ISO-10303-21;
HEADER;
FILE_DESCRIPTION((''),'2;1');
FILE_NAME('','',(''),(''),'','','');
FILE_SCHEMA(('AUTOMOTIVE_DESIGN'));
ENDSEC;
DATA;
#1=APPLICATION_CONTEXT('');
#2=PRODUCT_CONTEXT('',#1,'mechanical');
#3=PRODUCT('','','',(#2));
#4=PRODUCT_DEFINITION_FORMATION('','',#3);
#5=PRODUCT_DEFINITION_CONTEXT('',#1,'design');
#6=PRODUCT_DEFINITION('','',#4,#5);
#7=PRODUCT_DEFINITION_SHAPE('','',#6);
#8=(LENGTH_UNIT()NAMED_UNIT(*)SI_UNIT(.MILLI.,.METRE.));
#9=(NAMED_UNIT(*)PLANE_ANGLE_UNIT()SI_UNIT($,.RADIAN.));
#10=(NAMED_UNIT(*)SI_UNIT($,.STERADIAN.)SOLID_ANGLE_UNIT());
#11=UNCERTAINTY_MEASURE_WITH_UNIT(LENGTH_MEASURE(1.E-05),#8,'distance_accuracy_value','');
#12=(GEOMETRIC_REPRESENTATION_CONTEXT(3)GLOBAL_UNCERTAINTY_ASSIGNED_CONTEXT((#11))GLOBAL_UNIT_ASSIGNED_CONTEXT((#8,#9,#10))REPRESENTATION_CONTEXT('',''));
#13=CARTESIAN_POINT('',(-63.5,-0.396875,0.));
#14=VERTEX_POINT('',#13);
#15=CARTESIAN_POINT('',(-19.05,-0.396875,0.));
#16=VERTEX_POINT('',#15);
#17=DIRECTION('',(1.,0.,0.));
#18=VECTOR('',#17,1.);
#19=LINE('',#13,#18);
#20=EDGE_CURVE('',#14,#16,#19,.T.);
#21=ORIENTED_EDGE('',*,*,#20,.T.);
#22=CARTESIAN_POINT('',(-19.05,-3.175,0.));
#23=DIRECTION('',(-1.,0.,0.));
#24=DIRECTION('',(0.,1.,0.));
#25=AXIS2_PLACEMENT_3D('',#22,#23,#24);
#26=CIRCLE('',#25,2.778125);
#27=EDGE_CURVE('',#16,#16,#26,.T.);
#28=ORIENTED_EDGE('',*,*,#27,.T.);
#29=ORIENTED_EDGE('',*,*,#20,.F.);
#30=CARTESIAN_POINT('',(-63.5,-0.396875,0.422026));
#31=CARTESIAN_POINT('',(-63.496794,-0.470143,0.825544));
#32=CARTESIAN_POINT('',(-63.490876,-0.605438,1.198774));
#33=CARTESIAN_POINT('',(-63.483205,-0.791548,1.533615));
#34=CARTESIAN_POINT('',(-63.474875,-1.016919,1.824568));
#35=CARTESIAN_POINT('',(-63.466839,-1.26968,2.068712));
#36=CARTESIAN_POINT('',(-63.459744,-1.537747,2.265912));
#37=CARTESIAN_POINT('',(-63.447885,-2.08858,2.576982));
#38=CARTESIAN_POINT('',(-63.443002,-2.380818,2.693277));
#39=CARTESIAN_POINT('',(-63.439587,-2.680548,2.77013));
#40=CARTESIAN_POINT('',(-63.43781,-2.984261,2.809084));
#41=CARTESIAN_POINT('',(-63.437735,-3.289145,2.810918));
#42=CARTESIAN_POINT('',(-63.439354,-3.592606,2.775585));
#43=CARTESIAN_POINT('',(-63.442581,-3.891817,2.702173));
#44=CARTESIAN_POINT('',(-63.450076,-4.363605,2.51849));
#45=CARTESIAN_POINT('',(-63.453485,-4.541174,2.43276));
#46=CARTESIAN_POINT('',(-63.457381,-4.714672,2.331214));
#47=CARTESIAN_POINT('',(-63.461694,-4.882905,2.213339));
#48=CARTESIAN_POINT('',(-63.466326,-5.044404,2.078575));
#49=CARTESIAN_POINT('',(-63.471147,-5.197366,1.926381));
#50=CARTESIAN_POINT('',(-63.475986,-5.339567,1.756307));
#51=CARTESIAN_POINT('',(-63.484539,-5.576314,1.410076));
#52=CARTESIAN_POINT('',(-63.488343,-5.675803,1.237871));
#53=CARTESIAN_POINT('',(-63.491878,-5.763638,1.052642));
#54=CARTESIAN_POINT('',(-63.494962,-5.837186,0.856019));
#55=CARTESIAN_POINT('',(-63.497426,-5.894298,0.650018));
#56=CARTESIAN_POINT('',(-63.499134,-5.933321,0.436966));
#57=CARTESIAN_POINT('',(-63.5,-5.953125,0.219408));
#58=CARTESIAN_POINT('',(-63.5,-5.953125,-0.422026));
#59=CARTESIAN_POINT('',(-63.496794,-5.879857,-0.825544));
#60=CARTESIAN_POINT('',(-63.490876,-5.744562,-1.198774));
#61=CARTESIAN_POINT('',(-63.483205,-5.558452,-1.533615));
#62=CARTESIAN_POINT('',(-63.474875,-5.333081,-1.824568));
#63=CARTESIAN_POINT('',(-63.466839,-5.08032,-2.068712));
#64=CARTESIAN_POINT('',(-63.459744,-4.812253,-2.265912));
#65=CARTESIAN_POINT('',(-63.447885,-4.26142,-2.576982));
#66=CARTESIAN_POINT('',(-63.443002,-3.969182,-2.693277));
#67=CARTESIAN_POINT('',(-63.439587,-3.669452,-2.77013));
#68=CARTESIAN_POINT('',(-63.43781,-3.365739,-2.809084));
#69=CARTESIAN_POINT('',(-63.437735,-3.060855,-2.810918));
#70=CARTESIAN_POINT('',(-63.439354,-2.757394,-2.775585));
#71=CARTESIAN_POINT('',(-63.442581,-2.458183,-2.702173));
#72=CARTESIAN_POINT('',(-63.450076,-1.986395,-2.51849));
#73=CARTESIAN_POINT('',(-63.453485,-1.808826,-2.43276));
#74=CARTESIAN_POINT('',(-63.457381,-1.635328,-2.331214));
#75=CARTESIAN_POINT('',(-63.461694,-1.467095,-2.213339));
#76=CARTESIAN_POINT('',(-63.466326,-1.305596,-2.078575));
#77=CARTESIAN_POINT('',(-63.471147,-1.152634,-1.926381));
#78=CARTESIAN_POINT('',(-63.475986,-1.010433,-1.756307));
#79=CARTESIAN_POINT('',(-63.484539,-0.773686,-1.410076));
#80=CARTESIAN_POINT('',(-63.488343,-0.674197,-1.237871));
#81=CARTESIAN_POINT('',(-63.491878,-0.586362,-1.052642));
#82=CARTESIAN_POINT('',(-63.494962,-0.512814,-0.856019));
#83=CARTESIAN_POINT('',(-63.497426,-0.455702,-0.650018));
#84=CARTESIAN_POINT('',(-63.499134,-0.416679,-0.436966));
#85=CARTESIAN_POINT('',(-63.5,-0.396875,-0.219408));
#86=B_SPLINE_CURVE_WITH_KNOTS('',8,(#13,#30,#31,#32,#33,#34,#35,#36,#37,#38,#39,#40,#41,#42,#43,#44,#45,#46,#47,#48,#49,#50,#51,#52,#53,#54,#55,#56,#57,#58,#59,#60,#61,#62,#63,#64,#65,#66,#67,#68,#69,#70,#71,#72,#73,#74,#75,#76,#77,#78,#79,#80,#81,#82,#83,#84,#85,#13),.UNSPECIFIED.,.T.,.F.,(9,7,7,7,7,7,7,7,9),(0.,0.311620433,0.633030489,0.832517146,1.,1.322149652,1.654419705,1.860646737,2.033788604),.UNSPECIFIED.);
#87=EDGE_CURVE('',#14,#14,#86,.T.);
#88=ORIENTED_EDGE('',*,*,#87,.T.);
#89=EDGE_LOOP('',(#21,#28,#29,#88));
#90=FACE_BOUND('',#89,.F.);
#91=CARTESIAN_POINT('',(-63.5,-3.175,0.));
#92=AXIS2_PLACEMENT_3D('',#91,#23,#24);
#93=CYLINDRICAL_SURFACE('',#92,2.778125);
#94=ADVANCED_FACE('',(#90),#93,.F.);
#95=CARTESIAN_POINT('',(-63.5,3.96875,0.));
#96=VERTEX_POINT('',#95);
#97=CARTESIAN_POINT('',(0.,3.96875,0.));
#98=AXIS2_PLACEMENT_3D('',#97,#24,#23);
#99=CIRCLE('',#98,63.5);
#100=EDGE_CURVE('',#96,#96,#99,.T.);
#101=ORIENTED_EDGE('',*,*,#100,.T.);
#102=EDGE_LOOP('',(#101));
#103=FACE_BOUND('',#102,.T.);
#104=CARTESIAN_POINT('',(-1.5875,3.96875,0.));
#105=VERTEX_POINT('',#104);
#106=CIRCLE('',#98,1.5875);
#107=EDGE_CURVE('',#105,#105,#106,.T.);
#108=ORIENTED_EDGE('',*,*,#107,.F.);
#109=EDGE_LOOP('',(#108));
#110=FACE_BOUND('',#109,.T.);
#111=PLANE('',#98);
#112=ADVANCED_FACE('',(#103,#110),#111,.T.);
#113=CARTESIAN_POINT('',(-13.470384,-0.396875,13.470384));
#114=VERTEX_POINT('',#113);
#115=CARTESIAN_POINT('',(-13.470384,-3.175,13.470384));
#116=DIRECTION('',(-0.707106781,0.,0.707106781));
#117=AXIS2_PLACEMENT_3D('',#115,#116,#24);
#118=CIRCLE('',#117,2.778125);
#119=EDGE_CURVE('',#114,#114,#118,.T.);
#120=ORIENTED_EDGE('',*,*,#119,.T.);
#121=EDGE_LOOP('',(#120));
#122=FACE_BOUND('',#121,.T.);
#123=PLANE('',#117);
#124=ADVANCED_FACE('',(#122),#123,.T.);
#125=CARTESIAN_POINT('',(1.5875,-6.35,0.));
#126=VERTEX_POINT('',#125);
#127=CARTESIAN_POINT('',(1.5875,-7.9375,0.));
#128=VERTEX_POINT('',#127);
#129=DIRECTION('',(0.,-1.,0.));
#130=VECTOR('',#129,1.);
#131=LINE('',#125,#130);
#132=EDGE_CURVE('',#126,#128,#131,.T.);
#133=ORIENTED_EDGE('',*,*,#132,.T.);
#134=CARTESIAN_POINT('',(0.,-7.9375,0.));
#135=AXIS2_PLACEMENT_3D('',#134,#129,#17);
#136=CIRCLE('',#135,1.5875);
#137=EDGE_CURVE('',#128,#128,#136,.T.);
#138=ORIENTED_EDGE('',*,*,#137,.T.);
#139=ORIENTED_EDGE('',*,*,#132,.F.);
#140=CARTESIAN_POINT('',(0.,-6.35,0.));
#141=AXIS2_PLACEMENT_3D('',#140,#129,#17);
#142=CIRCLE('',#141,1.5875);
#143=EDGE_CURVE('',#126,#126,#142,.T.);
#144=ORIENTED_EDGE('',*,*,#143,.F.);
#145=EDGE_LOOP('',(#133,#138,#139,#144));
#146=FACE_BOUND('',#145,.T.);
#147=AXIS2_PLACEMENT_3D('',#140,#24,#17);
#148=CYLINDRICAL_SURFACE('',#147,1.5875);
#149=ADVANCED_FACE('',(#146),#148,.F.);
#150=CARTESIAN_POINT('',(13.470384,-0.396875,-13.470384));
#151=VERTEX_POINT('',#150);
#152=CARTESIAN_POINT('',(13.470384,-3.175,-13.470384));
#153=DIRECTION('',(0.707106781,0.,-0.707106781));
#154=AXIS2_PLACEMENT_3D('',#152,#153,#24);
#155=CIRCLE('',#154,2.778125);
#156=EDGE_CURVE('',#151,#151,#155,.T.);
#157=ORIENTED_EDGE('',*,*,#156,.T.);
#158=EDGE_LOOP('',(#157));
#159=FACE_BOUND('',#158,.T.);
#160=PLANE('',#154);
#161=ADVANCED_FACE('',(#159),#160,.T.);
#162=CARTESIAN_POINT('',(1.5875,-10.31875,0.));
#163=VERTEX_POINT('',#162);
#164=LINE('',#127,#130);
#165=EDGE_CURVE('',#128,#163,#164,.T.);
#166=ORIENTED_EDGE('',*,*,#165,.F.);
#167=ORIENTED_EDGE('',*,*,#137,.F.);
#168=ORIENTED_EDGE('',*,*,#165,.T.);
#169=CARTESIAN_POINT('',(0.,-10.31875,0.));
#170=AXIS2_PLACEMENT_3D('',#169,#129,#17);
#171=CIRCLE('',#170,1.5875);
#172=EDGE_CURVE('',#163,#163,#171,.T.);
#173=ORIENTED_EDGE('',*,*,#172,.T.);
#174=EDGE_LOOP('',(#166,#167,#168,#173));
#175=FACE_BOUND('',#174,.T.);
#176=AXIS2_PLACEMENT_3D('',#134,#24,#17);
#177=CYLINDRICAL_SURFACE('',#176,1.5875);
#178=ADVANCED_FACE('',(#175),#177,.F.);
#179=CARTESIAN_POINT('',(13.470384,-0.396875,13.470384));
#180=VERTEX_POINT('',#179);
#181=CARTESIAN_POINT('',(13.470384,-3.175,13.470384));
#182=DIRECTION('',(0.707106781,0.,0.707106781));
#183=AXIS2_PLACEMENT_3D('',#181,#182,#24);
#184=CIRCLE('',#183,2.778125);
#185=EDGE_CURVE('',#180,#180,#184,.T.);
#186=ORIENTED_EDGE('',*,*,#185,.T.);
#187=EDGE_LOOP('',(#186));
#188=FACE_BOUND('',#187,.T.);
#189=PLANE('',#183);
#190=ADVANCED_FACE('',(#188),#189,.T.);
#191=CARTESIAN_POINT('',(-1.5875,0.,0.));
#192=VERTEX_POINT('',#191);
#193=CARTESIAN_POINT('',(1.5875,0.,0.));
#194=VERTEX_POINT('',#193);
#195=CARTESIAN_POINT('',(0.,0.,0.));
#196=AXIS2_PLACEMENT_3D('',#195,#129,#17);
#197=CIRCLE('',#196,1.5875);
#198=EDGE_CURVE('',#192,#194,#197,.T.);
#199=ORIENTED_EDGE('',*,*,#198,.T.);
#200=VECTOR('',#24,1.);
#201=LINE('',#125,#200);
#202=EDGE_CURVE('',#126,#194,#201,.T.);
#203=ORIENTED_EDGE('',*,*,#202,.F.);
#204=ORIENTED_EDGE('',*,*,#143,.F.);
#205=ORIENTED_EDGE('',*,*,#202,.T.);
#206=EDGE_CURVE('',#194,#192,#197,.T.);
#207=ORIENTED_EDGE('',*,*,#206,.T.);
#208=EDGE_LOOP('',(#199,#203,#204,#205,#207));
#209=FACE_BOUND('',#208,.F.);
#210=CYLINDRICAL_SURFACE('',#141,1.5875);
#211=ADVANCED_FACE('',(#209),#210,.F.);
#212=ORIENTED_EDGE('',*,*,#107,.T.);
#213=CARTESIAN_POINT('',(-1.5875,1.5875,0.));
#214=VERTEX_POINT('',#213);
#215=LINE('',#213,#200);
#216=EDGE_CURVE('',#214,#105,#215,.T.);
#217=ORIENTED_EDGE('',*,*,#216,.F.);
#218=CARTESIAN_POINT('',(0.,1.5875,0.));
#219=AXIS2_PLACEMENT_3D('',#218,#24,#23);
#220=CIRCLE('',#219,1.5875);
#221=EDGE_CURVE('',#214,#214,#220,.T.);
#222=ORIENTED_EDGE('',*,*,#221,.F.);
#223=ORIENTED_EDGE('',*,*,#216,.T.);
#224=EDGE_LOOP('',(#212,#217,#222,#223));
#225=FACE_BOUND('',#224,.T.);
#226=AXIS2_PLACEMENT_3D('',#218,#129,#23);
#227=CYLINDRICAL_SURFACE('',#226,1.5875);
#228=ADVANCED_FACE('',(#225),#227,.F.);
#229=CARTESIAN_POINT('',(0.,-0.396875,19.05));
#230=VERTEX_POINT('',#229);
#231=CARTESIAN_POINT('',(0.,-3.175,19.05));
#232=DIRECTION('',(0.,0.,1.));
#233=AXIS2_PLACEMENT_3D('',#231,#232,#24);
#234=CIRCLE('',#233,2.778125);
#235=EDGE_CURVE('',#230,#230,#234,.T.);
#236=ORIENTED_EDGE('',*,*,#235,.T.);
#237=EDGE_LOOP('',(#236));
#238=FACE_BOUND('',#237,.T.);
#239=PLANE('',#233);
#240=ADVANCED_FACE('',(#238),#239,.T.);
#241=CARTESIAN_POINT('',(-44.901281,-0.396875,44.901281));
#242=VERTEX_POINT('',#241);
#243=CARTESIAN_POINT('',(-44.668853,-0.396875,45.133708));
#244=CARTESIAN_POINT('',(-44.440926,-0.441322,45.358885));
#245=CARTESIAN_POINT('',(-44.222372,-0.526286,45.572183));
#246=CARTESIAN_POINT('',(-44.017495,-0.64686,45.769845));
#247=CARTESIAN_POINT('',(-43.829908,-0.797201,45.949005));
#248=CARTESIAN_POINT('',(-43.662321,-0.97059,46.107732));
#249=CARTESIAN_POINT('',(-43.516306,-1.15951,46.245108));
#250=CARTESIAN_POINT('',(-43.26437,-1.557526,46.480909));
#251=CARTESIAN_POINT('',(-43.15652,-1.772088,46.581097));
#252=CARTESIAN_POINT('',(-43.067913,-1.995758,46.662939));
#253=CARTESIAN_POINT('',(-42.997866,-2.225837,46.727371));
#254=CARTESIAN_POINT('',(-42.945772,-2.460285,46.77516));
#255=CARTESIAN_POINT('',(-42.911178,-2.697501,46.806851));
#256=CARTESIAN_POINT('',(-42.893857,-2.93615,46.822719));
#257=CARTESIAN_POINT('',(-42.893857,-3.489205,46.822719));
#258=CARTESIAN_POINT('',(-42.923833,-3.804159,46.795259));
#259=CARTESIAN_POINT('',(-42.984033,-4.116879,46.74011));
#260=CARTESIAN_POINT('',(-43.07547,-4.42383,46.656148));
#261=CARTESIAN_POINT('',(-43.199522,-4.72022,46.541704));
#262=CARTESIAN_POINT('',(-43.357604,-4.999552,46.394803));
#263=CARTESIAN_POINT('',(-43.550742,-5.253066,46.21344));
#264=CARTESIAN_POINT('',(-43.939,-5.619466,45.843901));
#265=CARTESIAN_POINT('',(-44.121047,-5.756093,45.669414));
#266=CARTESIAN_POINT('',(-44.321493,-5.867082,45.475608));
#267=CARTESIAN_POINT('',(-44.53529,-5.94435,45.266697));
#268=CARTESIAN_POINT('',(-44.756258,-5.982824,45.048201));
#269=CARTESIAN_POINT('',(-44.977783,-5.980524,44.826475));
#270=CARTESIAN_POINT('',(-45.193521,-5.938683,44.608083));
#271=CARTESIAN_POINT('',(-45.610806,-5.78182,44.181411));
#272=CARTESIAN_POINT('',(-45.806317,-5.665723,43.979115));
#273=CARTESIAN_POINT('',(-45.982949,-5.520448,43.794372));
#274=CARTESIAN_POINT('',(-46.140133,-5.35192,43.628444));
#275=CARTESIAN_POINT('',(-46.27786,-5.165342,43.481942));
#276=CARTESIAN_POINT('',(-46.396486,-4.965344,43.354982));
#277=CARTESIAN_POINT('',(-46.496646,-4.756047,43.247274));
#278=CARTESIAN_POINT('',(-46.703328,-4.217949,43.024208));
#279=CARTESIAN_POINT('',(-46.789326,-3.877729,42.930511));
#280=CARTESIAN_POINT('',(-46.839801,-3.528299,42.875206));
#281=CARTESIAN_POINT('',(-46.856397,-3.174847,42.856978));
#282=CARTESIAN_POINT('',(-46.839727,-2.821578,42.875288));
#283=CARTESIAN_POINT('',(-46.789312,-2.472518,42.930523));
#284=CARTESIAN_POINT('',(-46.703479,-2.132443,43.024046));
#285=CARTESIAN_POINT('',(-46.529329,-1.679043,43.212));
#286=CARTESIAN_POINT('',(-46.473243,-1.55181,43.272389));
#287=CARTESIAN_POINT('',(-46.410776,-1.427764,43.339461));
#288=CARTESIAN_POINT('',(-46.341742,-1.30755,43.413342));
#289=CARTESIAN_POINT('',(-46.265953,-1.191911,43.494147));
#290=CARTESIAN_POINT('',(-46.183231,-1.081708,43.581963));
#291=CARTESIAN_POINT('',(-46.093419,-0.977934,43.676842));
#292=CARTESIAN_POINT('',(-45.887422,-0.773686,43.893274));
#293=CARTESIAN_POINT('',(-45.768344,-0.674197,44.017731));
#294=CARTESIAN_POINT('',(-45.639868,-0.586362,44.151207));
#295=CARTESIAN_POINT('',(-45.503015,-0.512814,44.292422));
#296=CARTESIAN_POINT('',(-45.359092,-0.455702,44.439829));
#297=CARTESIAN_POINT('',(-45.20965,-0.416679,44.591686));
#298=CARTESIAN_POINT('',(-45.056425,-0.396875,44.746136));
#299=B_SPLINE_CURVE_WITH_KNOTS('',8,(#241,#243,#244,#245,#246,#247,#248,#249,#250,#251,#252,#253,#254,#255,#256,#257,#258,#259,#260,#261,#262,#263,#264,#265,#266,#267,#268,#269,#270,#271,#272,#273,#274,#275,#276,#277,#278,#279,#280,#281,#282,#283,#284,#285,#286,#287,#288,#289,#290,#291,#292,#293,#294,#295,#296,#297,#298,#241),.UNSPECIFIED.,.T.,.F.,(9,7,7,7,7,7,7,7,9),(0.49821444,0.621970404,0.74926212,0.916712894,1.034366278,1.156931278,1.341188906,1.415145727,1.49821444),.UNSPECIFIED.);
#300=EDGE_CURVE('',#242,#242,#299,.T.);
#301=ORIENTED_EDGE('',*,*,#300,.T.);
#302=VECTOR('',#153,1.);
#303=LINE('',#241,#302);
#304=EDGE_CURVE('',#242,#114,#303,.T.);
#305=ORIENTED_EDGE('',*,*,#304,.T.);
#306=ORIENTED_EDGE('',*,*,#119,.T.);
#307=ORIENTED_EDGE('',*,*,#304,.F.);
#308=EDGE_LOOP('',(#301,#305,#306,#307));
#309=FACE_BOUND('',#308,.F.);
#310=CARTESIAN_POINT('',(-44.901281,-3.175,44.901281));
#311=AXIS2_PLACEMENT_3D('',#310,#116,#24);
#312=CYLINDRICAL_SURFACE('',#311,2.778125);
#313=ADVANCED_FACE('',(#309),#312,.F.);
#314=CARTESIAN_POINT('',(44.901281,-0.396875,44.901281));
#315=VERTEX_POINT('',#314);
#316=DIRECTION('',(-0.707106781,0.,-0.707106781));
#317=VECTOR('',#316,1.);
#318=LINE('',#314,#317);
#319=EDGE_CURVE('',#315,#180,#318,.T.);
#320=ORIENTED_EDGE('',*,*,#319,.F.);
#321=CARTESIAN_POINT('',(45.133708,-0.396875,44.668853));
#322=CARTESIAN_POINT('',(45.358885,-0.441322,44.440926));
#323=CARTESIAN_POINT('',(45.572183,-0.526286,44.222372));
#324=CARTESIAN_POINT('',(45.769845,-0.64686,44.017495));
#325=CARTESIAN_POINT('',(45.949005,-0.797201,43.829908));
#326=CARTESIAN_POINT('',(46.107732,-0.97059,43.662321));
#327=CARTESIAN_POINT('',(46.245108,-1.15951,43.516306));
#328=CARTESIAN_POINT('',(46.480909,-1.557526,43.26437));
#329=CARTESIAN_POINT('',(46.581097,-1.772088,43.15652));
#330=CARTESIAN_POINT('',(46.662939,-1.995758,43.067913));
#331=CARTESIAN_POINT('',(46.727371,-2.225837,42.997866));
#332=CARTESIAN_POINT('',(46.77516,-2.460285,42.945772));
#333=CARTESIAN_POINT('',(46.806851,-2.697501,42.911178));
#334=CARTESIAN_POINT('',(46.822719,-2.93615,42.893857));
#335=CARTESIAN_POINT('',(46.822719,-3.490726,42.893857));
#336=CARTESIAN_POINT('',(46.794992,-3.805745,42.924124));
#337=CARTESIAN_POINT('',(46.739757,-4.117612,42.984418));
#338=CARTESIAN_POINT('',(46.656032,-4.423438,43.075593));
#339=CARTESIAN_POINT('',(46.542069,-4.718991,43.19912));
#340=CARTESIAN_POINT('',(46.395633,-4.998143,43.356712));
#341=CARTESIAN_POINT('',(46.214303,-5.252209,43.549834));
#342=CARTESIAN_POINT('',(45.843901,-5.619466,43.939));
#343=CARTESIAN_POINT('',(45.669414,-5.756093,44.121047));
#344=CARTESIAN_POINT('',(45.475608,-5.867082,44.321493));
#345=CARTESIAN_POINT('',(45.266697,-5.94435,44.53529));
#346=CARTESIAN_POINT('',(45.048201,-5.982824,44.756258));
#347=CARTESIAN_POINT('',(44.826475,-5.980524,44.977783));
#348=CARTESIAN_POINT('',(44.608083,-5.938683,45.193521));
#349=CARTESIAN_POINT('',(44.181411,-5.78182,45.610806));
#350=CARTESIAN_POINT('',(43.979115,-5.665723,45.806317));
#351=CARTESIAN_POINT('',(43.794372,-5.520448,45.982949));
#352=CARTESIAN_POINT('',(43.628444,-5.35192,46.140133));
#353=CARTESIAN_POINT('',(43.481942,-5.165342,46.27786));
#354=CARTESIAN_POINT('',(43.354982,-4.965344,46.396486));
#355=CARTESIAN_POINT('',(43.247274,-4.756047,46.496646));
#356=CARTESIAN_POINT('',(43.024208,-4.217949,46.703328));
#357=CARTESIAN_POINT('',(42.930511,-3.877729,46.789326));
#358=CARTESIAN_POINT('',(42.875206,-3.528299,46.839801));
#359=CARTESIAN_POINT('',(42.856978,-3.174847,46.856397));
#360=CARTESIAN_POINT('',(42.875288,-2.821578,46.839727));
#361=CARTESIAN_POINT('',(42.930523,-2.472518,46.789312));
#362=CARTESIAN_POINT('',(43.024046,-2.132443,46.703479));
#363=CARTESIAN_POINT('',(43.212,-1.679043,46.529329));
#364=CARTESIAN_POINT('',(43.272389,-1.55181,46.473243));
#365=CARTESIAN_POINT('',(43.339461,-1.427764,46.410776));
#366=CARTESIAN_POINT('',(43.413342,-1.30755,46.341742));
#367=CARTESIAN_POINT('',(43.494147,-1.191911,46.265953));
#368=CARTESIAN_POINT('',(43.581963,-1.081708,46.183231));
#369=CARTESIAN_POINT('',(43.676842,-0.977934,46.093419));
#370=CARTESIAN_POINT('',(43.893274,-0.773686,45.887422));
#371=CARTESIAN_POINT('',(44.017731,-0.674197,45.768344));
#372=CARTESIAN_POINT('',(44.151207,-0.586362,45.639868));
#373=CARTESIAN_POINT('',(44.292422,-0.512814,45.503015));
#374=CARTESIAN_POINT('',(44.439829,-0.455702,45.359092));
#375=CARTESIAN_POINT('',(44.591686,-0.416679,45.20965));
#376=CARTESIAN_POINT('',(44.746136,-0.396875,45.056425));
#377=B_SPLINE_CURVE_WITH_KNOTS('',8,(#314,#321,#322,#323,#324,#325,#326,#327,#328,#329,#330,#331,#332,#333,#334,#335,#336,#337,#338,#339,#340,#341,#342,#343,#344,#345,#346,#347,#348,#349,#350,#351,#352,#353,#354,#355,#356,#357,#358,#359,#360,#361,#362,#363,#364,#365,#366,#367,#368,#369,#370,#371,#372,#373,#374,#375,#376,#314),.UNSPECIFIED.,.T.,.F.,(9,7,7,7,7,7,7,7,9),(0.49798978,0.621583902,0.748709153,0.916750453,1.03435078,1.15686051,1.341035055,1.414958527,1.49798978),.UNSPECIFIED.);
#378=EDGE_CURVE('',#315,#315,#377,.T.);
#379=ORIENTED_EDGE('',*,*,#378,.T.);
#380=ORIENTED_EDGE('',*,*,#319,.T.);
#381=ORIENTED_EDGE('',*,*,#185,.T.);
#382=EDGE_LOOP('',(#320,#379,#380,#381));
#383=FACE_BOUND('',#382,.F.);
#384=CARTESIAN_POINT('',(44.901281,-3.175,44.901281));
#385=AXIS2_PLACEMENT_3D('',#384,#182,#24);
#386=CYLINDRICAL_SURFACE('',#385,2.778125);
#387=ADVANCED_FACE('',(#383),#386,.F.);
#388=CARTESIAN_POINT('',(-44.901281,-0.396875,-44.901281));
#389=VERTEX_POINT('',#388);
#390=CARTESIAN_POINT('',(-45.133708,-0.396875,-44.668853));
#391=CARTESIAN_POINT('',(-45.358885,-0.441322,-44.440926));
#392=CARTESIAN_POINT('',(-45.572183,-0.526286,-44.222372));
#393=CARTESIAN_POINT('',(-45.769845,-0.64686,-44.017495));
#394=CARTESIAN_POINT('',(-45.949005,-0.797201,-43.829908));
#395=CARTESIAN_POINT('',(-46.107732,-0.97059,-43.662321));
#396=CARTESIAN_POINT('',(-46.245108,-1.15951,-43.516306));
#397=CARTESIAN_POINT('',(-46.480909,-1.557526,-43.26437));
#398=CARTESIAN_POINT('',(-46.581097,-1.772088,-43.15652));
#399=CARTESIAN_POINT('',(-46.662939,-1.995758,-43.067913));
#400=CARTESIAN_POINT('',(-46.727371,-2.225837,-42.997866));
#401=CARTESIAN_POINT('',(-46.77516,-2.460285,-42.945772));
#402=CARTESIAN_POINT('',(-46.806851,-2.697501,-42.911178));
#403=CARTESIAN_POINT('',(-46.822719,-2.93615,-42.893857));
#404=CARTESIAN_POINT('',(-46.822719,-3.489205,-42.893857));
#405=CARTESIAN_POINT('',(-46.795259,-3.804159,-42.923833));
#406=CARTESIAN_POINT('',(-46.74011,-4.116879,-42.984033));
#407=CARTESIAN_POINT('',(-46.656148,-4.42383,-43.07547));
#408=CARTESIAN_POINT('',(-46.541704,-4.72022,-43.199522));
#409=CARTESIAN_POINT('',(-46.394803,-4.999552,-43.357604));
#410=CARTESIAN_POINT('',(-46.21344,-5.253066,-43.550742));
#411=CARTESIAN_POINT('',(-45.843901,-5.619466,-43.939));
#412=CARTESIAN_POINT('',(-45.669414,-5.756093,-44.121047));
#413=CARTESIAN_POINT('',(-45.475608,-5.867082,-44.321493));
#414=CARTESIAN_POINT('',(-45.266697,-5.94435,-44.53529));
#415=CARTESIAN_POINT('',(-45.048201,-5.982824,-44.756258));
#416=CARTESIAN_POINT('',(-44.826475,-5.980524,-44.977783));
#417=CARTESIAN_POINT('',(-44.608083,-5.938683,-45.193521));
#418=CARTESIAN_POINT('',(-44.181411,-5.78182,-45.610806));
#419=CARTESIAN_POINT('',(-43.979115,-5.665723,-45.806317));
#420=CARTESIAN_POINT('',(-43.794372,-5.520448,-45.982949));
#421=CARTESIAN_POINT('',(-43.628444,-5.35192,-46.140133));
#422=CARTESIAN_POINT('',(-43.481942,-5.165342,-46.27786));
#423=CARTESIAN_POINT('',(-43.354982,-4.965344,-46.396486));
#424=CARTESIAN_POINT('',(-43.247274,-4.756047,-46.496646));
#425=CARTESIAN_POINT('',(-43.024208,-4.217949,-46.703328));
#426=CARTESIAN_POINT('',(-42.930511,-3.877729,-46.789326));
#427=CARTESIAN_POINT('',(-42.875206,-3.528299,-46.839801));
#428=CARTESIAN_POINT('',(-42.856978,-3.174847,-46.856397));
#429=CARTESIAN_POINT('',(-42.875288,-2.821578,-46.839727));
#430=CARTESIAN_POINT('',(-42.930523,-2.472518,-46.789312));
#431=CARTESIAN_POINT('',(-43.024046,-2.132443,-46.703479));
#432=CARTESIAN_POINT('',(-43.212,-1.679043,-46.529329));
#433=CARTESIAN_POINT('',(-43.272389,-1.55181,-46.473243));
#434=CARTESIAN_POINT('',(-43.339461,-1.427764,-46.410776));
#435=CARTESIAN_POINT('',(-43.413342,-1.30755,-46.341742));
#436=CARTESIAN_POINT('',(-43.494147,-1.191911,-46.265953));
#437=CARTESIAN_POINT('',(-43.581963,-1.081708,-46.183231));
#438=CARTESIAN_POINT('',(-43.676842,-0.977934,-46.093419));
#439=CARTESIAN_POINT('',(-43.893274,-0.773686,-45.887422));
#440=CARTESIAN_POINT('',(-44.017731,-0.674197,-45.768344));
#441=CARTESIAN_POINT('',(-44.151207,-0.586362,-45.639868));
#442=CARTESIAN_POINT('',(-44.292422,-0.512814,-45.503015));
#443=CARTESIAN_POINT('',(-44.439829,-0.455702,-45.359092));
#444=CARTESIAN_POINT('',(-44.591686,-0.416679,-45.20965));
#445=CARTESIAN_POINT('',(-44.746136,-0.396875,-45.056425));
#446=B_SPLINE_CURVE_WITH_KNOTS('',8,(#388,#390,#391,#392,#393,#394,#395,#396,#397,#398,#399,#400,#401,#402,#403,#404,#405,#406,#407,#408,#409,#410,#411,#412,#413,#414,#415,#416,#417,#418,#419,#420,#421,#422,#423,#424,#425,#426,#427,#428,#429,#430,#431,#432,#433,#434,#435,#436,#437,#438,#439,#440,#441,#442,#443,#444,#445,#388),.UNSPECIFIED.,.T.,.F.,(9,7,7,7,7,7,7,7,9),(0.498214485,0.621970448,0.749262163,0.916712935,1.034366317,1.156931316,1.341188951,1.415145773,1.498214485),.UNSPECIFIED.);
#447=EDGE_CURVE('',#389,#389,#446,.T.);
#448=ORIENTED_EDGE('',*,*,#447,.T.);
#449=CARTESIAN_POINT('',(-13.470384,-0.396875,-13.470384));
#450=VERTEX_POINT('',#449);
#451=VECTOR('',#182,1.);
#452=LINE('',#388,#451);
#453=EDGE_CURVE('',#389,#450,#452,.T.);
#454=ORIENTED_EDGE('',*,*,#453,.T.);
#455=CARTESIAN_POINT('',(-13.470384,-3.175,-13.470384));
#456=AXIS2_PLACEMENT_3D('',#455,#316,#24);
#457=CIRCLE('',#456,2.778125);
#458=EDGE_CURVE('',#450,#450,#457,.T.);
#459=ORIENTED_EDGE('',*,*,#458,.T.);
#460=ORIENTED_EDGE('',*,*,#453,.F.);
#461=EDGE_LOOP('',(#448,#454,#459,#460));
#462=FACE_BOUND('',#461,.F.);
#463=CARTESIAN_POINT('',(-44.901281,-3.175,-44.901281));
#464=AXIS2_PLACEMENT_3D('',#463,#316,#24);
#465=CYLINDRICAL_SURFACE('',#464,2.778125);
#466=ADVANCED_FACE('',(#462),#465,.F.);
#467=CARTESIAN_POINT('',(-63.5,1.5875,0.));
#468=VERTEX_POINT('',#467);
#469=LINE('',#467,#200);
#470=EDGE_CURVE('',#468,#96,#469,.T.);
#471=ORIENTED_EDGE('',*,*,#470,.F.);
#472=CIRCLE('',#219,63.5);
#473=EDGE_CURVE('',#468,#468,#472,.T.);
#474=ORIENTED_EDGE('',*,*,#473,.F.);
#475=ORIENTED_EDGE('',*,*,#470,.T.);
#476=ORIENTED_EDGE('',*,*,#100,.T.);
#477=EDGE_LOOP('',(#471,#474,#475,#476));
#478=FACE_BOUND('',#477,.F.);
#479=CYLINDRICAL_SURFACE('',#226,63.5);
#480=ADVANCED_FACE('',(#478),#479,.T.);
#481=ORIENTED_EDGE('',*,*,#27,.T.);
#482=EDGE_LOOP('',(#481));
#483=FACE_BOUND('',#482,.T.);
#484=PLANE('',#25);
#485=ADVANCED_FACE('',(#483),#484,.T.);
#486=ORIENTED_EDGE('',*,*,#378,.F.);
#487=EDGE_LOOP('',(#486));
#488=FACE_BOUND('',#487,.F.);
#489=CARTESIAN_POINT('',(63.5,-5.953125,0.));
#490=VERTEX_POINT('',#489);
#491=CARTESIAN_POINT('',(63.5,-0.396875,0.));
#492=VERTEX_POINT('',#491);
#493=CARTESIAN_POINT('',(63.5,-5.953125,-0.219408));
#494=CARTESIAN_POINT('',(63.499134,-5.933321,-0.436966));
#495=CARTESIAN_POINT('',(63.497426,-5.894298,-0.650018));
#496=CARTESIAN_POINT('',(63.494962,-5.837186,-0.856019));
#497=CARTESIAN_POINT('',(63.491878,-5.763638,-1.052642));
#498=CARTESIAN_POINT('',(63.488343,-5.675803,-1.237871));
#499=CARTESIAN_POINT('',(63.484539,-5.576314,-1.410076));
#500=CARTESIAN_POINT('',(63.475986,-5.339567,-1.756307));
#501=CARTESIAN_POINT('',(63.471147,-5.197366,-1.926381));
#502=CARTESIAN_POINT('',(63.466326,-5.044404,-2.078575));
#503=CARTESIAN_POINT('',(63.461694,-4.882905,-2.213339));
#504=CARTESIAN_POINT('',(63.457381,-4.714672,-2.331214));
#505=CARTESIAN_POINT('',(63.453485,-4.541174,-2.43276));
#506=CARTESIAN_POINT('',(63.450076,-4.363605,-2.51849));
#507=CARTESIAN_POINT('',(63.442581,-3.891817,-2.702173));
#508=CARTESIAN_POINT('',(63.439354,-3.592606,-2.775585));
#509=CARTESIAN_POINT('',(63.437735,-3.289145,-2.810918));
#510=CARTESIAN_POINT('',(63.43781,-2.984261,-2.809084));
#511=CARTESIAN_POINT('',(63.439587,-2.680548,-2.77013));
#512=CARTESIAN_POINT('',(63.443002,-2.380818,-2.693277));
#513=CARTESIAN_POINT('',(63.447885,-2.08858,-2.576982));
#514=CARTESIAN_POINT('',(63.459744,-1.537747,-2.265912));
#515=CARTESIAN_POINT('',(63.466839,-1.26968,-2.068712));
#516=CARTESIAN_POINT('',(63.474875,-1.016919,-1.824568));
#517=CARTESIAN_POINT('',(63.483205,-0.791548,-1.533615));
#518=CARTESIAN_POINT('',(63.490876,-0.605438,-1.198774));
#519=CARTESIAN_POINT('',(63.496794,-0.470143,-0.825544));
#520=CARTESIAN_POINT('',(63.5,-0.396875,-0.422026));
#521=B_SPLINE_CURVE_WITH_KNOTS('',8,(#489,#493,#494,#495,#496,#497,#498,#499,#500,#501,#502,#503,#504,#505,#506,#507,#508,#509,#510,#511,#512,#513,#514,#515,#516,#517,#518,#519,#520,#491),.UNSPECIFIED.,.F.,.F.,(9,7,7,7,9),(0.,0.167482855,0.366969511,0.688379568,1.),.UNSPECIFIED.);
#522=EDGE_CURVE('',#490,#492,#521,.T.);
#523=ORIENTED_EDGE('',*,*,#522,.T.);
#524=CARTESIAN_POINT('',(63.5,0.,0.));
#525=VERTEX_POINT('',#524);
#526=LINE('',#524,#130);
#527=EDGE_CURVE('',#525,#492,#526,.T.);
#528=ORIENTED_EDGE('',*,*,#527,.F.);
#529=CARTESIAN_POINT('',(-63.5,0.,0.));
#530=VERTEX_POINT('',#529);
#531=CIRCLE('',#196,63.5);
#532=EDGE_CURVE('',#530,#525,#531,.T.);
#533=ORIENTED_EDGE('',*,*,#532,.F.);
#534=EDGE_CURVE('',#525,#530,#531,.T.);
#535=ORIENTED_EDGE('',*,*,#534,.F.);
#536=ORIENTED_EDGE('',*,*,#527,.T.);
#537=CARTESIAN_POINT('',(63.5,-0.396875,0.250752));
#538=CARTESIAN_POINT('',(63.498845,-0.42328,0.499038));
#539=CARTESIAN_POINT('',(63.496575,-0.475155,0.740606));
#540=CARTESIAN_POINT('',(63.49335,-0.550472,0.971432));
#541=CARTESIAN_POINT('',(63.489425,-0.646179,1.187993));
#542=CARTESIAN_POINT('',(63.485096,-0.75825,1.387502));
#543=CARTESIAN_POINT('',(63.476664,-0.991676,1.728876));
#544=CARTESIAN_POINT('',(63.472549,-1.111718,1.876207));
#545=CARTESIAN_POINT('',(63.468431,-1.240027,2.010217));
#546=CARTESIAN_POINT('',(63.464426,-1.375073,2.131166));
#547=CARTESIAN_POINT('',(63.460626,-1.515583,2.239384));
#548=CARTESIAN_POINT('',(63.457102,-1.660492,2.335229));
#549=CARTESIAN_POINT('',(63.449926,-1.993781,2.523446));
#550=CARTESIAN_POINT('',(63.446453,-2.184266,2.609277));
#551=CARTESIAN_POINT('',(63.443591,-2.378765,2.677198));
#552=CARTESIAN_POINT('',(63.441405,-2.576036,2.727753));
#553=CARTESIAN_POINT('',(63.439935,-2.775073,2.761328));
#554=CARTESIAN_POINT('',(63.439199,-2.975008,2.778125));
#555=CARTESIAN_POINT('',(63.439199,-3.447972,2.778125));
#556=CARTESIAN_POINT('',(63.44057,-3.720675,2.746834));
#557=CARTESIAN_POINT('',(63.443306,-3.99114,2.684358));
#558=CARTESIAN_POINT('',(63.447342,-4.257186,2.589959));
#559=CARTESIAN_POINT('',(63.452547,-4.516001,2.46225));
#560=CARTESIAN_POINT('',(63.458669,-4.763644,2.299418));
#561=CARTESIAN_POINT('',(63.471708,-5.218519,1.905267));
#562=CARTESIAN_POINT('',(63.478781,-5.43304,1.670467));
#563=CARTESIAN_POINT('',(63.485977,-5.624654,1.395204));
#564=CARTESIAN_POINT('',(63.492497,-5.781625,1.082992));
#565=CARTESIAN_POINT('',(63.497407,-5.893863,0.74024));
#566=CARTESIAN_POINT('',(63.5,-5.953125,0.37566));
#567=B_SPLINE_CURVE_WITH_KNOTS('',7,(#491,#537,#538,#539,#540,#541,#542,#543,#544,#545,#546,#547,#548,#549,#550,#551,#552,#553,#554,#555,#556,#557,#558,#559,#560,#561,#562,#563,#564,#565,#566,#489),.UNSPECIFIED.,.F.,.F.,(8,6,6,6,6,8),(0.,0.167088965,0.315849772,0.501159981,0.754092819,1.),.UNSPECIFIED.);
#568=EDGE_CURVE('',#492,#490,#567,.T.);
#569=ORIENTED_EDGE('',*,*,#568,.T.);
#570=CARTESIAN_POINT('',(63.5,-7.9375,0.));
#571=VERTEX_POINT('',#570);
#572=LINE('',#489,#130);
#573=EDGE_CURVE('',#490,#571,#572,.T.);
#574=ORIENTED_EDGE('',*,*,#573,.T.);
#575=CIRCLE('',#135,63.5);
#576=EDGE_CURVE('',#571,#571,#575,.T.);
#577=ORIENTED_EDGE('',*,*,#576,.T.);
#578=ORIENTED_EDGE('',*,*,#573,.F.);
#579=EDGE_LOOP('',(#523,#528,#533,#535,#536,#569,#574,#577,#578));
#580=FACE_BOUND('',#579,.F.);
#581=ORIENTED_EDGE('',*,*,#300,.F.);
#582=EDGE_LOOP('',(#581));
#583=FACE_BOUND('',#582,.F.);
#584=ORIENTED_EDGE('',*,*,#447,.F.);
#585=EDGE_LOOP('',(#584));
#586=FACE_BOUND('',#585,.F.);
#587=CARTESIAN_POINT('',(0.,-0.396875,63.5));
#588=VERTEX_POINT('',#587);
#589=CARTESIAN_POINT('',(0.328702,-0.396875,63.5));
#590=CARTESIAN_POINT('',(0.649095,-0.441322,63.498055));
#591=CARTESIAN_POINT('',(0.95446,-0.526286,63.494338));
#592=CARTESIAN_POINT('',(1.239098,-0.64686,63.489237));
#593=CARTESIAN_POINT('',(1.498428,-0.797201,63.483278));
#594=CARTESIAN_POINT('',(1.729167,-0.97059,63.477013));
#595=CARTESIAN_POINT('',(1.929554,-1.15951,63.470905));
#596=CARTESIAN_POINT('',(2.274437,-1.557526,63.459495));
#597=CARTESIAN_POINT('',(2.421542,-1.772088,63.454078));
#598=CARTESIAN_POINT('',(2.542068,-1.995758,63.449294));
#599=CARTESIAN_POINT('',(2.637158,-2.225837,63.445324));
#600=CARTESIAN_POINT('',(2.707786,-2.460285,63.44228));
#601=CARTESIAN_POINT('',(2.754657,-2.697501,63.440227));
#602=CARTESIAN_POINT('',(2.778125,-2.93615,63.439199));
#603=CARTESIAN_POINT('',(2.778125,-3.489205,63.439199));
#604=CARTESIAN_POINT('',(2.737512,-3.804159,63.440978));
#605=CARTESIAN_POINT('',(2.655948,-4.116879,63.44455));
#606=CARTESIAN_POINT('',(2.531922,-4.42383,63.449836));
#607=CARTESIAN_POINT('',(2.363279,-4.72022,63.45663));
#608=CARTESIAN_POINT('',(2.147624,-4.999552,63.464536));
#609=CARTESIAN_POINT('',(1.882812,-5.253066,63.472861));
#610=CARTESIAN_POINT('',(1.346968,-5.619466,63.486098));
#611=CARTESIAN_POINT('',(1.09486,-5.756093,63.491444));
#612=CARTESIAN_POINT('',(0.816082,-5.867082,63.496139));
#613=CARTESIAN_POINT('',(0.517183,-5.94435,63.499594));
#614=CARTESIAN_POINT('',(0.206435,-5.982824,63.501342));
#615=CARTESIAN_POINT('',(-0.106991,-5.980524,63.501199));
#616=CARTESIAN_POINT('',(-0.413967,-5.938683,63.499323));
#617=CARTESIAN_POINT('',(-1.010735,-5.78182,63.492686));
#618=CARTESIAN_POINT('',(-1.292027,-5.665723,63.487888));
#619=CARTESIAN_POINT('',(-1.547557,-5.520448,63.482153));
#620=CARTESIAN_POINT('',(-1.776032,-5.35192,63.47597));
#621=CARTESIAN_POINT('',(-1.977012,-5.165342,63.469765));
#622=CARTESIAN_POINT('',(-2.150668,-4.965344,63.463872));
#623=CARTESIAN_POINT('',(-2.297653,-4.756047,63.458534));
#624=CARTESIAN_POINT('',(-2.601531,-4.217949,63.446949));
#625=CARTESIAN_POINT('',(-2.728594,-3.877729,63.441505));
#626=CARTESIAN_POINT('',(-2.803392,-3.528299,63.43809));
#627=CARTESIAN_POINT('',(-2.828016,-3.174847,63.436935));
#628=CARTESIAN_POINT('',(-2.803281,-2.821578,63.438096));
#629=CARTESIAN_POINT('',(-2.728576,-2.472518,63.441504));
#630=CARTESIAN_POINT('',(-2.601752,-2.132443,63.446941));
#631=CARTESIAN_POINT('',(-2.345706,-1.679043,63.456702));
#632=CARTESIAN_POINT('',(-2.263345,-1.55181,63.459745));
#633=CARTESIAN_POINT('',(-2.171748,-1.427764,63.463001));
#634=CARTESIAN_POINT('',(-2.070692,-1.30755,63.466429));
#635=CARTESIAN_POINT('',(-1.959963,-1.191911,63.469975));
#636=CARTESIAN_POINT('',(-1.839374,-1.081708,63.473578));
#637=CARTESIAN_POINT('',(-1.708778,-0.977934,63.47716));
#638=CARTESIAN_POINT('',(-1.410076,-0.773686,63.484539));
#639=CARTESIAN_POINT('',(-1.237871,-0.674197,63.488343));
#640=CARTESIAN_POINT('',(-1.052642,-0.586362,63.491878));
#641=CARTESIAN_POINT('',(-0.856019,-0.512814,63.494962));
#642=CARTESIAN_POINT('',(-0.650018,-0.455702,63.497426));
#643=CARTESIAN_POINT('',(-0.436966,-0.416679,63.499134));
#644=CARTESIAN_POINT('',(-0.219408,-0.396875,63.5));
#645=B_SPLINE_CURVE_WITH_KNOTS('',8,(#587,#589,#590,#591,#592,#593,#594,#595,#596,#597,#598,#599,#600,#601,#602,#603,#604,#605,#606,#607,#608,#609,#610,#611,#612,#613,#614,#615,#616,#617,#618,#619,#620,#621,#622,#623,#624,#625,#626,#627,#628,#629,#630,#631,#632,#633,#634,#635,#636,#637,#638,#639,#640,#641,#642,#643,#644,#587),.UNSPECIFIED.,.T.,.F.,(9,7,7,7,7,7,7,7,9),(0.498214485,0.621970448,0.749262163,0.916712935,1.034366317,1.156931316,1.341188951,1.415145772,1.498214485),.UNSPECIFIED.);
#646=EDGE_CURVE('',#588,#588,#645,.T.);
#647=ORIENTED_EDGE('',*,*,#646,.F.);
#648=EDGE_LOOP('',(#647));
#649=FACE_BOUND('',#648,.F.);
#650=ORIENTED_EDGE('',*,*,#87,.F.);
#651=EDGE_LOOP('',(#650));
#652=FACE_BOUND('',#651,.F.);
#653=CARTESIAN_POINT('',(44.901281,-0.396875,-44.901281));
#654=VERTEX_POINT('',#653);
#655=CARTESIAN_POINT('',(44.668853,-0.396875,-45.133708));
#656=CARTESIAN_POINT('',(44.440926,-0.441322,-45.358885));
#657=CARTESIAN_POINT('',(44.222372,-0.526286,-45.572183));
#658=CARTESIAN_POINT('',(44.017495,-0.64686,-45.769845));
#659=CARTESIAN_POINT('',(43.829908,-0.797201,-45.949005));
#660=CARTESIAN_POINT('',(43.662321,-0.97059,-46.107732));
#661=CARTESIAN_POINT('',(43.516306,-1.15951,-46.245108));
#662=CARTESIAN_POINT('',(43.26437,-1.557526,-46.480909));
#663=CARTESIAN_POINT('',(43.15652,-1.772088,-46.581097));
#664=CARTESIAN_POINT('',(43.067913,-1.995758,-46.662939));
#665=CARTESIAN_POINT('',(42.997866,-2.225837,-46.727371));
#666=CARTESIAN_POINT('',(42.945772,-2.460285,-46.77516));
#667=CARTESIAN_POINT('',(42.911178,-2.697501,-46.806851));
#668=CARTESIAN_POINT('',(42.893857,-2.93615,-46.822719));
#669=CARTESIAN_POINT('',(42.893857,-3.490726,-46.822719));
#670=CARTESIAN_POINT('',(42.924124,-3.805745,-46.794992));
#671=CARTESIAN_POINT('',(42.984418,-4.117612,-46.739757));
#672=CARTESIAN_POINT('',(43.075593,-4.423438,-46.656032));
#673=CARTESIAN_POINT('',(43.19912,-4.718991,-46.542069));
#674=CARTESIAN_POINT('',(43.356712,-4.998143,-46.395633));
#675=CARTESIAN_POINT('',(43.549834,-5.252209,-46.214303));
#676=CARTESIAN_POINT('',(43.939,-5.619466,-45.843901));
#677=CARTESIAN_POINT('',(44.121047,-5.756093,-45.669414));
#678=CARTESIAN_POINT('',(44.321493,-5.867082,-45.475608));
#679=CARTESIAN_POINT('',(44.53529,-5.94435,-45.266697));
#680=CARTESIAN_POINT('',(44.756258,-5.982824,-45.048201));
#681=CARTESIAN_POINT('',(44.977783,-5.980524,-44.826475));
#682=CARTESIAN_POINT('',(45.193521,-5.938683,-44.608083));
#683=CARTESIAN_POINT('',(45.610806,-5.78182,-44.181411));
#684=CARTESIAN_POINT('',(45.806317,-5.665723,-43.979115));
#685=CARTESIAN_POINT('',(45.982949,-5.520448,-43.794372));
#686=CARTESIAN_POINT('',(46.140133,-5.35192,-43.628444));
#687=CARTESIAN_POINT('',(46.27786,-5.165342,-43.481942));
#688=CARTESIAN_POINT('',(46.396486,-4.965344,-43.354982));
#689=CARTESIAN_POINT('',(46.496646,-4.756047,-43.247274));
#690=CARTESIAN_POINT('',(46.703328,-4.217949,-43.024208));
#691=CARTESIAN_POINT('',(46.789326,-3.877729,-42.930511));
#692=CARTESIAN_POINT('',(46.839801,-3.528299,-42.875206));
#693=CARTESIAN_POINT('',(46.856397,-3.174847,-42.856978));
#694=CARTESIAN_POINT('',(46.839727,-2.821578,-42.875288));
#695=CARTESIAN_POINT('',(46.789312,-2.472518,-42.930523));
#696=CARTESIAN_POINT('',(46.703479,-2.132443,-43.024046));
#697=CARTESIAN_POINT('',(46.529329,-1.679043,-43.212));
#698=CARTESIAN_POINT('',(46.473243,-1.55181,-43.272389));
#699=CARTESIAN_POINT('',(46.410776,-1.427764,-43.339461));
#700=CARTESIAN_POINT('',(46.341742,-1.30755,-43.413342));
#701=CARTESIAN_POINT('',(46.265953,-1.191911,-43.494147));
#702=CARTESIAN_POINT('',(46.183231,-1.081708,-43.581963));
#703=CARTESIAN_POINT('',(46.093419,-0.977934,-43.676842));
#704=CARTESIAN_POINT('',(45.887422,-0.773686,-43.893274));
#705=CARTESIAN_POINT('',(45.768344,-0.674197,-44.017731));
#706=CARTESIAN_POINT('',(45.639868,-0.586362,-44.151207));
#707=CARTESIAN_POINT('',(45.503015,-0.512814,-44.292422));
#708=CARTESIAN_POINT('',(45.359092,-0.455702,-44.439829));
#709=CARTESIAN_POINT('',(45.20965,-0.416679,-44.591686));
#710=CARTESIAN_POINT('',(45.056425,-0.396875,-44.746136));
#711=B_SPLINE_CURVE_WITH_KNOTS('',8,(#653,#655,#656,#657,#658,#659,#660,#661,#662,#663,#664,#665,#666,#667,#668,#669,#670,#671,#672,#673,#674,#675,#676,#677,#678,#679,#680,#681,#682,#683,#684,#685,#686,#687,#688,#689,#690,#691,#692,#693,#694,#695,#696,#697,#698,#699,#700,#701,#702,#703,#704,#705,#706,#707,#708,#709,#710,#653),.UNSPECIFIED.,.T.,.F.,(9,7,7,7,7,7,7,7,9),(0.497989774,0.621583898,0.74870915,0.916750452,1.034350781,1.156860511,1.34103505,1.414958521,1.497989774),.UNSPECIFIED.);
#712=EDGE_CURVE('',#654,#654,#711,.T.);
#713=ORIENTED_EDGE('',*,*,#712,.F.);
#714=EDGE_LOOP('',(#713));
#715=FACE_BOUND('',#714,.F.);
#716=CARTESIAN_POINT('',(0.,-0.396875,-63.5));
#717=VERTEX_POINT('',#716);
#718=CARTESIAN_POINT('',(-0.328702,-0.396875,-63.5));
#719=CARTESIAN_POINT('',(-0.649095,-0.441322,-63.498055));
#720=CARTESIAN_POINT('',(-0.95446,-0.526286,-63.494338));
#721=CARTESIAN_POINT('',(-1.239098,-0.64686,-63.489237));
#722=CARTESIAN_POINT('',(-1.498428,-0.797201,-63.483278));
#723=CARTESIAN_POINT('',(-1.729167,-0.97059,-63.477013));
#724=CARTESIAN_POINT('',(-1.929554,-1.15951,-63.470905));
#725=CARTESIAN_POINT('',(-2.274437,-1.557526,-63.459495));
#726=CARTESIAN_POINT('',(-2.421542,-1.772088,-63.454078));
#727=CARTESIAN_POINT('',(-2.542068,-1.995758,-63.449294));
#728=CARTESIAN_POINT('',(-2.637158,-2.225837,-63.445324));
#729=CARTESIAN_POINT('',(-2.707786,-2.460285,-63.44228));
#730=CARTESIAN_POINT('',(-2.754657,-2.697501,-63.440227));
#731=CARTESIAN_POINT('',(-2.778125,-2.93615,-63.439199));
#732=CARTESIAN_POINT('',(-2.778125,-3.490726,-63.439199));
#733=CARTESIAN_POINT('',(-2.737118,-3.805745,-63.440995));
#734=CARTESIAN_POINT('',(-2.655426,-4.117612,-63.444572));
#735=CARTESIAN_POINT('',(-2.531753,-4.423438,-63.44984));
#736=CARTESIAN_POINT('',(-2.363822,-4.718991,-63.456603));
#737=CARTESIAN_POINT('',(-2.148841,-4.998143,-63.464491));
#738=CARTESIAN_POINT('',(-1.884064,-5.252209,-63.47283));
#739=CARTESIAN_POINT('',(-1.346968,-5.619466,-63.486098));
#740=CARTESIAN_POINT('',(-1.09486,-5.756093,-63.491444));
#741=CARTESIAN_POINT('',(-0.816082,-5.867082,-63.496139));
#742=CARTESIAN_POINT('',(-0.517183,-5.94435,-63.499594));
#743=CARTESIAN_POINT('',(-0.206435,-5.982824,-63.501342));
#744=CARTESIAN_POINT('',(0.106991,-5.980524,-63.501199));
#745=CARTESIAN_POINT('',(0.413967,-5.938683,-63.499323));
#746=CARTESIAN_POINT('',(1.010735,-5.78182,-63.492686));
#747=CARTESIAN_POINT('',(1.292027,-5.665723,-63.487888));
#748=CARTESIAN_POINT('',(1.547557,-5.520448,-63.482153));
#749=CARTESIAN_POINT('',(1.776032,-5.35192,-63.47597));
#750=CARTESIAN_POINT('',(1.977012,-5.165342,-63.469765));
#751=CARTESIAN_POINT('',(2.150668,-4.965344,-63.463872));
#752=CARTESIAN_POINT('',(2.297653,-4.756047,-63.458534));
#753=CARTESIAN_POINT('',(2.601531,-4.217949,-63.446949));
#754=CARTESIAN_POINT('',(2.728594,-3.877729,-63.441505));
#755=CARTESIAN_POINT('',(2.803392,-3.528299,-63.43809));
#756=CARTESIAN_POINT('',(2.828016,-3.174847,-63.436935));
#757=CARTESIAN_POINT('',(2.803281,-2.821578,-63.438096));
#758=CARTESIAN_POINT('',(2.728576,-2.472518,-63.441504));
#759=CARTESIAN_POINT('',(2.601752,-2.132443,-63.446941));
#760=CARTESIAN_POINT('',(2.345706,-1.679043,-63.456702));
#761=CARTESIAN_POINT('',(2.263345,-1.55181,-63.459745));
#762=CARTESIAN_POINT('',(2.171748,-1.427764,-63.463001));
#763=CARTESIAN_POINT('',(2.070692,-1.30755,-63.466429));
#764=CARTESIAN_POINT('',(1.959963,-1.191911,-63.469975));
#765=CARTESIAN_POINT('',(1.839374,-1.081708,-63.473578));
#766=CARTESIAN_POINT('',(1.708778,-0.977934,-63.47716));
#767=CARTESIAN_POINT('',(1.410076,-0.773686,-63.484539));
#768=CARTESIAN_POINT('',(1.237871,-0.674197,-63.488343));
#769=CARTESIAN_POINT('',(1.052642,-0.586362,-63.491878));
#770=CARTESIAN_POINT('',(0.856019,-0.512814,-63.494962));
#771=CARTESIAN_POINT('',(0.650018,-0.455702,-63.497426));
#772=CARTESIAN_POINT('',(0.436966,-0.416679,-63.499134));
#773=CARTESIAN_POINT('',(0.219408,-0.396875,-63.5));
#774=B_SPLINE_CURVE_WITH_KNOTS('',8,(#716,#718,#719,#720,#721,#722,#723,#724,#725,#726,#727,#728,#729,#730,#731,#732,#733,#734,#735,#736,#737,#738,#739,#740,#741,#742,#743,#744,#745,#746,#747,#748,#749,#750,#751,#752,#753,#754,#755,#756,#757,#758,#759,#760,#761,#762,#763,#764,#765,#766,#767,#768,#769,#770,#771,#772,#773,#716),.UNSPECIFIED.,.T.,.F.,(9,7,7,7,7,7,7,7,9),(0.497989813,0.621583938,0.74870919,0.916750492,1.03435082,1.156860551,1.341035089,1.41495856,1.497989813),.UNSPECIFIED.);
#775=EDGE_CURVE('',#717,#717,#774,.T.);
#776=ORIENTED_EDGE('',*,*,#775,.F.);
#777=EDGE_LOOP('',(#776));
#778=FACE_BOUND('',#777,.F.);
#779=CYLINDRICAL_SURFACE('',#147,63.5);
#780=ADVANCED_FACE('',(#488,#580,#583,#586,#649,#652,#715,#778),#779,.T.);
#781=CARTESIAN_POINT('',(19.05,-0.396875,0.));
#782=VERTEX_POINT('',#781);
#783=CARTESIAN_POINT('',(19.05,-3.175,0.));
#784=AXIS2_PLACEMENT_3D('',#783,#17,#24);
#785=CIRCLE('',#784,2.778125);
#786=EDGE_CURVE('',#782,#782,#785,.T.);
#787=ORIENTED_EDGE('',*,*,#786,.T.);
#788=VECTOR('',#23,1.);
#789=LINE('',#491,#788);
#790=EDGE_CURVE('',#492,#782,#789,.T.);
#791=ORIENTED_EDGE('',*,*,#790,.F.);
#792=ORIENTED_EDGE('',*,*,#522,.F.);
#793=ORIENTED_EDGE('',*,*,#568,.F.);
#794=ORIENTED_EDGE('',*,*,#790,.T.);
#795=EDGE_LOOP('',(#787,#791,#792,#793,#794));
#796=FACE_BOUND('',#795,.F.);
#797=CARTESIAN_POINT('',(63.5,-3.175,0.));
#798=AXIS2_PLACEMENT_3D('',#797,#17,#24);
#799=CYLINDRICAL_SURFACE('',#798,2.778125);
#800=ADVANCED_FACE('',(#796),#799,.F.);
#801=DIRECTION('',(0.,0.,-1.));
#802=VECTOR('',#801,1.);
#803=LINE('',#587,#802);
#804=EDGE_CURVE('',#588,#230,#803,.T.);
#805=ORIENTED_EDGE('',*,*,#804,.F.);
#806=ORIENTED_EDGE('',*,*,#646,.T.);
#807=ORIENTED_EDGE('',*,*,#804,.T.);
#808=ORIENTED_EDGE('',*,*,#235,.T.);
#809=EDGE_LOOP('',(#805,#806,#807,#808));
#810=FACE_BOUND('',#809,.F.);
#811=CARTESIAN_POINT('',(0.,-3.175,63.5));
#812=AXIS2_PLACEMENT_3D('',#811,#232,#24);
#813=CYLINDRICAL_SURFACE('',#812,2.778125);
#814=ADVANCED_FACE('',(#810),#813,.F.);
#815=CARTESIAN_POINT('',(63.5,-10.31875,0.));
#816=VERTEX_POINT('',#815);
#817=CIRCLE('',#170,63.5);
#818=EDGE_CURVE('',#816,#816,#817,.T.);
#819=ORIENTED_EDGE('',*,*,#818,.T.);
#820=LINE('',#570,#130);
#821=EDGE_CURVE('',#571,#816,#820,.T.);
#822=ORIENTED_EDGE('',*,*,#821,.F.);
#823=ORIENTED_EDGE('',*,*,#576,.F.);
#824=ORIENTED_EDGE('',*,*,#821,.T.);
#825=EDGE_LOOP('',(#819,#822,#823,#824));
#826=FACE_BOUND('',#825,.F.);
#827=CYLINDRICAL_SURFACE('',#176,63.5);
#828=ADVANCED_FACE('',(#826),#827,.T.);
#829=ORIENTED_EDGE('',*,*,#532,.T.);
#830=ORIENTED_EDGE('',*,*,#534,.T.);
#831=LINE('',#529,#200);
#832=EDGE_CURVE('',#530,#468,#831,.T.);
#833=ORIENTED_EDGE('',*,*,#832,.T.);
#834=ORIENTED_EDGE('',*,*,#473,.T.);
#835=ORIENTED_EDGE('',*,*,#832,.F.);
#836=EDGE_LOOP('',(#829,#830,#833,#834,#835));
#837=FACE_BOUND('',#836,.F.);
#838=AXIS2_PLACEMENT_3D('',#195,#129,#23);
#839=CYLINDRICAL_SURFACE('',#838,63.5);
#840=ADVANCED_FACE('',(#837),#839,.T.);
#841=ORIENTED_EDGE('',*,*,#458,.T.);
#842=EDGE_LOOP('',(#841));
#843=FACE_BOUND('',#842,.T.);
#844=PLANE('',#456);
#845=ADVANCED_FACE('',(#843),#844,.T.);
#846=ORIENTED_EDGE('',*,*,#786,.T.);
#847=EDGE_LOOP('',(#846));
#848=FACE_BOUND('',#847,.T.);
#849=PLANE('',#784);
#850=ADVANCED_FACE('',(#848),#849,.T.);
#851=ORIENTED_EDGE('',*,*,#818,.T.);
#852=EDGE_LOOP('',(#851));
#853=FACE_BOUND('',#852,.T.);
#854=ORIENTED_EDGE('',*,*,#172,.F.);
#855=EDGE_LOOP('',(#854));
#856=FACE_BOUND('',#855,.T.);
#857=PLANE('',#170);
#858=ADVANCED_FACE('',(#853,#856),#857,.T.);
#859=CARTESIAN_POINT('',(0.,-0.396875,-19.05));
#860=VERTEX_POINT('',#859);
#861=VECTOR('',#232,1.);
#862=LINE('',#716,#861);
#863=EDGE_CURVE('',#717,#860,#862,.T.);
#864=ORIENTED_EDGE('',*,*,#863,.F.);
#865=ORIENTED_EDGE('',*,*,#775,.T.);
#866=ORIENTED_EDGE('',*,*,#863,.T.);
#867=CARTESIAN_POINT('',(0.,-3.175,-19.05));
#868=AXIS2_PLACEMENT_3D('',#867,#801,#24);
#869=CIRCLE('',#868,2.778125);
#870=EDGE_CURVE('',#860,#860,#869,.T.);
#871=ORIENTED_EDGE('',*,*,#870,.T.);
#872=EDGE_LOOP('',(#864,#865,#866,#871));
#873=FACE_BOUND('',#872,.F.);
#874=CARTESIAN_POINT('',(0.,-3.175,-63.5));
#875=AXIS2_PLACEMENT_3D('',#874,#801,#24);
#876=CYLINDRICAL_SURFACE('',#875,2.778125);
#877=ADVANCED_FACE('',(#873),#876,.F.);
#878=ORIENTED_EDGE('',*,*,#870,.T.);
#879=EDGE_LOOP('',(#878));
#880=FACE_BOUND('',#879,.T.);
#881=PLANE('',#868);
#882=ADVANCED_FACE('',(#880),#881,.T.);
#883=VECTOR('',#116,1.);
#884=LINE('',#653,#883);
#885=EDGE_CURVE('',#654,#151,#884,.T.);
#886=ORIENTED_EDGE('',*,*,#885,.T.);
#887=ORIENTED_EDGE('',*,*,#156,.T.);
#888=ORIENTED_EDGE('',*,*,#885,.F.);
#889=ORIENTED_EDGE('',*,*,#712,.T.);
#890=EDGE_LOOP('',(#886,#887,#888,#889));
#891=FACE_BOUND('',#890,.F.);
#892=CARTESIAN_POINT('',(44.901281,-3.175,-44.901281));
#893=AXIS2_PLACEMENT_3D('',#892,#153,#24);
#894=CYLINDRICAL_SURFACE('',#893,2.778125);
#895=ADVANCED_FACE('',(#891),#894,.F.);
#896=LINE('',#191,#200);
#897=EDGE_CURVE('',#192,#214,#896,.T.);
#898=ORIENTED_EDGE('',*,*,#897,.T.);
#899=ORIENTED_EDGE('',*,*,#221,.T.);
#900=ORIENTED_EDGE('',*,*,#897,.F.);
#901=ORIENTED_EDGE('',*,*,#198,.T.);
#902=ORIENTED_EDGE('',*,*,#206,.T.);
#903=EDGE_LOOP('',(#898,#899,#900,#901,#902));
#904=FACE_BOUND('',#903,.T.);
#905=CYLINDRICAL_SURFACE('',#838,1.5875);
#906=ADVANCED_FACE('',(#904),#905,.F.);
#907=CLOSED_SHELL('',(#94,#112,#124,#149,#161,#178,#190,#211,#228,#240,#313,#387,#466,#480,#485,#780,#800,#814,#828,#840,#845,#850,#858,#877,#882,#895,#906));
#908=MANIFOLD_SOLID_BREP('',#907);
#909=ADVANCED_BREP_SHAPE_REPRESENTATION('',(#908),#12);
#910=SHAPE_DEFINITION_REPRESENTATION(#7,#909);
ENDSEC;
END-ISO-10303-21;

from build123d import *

# Parameters (mm, degrees)
F0_R      = 63.5
F1_DEPTH  = 6.35
F2_R      = 1.5875
F3_DEPTH  = 6.351
F6_R      = 2.778125
F7_DEPTH  = 44.45
F8_COUNT  = 8
F10_DEPTH = 1.5875
F4_R      = 63.5
F4_R_2    = 1.5875
F11_DEPTH = 1.5875
F12_DEPTH = 2.38125
F13_DEPTH = 2.38125


with BuildPart() as f1:
    # F0 (on Front) → F1 (new body)
    with BuildSketch(Plane.XZ):
        Circle(F0_R)
    extrude(amount=F1_DEPTH)

    # F2 (on face) → F3 (cut, through all)
    with BuildSketch(Plane.XZ.offset(6.35)):
        Circle(F2_R)
    extrude(amount=-F3_DEPTH, mode=Mode.SUBTRACT)


with BuildPart() as f7:
    # F6 (on line) → F7 (new body)
    with BuildSketch(Plane.YZ.offset(63.5)):
        with Locations((-3.175, 0)):
            Circle(F6_R)
    extrude(amount=-F7_DEPTH)


with BuildPart() as f8_1:
    # F8: instance of F7
    add(f7.part.rotate(Axis((0, -6.35, 0), (0, -1, 0)), 1 * 360 / F8_COUNT))


with BuildPart() as f8_2:
    # F8: instance of F7
    add(f7.part.rotate(Axis((0, -6.35, 0), (0, -1, 0)), 2 * 360 / F8_COUNT))


with BuildPart() as f8_3:
    # F8: instance of F7
    add(f7.part.rotate(Axis((0, -6.35, 0), (0, -1, 0)), 3 * 360 / F8_COUNT))


with BuildPart() as f8_4:
    # F8: instance of F7
    add(f7.part.rotate(Axis((0, -6.35, 0), (0, -1, 0)), 4 * 360 / F8_COUNT))


with BuildPart() as f8_5:
    # F8: instance of F7
    add(f7.part.rotate(Axis((0, -6.35, 0), (0, -1, 0)), 5 * 360 / F8_COUNT))


with BuildPart() as f8_6:
    # F8: instance of F7
    add(f7.part.rotate(Axis((0, -6.35, 0), (0, -1, 0)), 6 * 360 / F8_COUNT))


with BuildPart() as f8_7:
    # F8: instance of F7
    add(f7.part.rotate(Axis((0, -6.35, 0), (0, -1, 0)), 7 * 360 / F8_COUNT))


with BuildPart() as f1_1:
    add(f1.part)

    # F9: cut F8_1, F7, F8_7, F8_2, F8_3, F8_4, F8_5, F8_6
    add(f8_1.part, mode=Mode.SUBTRACT)
    add(f7.part, mode=Mode.SUBTRACT)
    add(f8_7.part, mode=Mode.SUBTRACT)
    add(f8_2.part, mode=Mode.SUBTRACT)
    add(f8_3.part, mode=Mode.SUBTRACT)
    add(f8_4.part, mode=Mode.SUBTRACT)
    add(f8_5.part, mode=Mode.SUBTRACT)
    add(f8_6.part, mode=Mode.SUBTRACT)

    # F10 (add): a face of the model
    f10_faces = [f1_1.faces().sort_by_distance(p)[0] for p in [
        (-61.7039487758, -6.35, 0),
    ]]
    extrude(f10_faces, amount=F10_DEPTH)

    # F4 (on face) → F11 (join)
    with BuildSketch(Plane(origin=(0, 0, 0), x_dir=(-1, 0, 0), z_dir=(0, 1, 0))):
        Circle(F4_R)
        Circle(F4_R_2, mode=Mode.SUBTRACT)
    extrude(amount=F11_DEPTH)

    # F12 (add): a face of the model
    f12_faces = [f1_1.faces().sort_by_distance(p)[0] for p in [
        (-61.7039487758, -7.9375, 0),
    ]]
    extrude(f12_faces, amount=F12_DEPTH)

    # F13 (add): a face of the model
    f13_faces = [f1_1.faces().sort_by_distance(p)[0] for p in [
        (61.7039487758, 1.5875, 0),
    ]]
    extrude(f13_faces, amount=F13_DEPTH)


solid = f1_1.part
